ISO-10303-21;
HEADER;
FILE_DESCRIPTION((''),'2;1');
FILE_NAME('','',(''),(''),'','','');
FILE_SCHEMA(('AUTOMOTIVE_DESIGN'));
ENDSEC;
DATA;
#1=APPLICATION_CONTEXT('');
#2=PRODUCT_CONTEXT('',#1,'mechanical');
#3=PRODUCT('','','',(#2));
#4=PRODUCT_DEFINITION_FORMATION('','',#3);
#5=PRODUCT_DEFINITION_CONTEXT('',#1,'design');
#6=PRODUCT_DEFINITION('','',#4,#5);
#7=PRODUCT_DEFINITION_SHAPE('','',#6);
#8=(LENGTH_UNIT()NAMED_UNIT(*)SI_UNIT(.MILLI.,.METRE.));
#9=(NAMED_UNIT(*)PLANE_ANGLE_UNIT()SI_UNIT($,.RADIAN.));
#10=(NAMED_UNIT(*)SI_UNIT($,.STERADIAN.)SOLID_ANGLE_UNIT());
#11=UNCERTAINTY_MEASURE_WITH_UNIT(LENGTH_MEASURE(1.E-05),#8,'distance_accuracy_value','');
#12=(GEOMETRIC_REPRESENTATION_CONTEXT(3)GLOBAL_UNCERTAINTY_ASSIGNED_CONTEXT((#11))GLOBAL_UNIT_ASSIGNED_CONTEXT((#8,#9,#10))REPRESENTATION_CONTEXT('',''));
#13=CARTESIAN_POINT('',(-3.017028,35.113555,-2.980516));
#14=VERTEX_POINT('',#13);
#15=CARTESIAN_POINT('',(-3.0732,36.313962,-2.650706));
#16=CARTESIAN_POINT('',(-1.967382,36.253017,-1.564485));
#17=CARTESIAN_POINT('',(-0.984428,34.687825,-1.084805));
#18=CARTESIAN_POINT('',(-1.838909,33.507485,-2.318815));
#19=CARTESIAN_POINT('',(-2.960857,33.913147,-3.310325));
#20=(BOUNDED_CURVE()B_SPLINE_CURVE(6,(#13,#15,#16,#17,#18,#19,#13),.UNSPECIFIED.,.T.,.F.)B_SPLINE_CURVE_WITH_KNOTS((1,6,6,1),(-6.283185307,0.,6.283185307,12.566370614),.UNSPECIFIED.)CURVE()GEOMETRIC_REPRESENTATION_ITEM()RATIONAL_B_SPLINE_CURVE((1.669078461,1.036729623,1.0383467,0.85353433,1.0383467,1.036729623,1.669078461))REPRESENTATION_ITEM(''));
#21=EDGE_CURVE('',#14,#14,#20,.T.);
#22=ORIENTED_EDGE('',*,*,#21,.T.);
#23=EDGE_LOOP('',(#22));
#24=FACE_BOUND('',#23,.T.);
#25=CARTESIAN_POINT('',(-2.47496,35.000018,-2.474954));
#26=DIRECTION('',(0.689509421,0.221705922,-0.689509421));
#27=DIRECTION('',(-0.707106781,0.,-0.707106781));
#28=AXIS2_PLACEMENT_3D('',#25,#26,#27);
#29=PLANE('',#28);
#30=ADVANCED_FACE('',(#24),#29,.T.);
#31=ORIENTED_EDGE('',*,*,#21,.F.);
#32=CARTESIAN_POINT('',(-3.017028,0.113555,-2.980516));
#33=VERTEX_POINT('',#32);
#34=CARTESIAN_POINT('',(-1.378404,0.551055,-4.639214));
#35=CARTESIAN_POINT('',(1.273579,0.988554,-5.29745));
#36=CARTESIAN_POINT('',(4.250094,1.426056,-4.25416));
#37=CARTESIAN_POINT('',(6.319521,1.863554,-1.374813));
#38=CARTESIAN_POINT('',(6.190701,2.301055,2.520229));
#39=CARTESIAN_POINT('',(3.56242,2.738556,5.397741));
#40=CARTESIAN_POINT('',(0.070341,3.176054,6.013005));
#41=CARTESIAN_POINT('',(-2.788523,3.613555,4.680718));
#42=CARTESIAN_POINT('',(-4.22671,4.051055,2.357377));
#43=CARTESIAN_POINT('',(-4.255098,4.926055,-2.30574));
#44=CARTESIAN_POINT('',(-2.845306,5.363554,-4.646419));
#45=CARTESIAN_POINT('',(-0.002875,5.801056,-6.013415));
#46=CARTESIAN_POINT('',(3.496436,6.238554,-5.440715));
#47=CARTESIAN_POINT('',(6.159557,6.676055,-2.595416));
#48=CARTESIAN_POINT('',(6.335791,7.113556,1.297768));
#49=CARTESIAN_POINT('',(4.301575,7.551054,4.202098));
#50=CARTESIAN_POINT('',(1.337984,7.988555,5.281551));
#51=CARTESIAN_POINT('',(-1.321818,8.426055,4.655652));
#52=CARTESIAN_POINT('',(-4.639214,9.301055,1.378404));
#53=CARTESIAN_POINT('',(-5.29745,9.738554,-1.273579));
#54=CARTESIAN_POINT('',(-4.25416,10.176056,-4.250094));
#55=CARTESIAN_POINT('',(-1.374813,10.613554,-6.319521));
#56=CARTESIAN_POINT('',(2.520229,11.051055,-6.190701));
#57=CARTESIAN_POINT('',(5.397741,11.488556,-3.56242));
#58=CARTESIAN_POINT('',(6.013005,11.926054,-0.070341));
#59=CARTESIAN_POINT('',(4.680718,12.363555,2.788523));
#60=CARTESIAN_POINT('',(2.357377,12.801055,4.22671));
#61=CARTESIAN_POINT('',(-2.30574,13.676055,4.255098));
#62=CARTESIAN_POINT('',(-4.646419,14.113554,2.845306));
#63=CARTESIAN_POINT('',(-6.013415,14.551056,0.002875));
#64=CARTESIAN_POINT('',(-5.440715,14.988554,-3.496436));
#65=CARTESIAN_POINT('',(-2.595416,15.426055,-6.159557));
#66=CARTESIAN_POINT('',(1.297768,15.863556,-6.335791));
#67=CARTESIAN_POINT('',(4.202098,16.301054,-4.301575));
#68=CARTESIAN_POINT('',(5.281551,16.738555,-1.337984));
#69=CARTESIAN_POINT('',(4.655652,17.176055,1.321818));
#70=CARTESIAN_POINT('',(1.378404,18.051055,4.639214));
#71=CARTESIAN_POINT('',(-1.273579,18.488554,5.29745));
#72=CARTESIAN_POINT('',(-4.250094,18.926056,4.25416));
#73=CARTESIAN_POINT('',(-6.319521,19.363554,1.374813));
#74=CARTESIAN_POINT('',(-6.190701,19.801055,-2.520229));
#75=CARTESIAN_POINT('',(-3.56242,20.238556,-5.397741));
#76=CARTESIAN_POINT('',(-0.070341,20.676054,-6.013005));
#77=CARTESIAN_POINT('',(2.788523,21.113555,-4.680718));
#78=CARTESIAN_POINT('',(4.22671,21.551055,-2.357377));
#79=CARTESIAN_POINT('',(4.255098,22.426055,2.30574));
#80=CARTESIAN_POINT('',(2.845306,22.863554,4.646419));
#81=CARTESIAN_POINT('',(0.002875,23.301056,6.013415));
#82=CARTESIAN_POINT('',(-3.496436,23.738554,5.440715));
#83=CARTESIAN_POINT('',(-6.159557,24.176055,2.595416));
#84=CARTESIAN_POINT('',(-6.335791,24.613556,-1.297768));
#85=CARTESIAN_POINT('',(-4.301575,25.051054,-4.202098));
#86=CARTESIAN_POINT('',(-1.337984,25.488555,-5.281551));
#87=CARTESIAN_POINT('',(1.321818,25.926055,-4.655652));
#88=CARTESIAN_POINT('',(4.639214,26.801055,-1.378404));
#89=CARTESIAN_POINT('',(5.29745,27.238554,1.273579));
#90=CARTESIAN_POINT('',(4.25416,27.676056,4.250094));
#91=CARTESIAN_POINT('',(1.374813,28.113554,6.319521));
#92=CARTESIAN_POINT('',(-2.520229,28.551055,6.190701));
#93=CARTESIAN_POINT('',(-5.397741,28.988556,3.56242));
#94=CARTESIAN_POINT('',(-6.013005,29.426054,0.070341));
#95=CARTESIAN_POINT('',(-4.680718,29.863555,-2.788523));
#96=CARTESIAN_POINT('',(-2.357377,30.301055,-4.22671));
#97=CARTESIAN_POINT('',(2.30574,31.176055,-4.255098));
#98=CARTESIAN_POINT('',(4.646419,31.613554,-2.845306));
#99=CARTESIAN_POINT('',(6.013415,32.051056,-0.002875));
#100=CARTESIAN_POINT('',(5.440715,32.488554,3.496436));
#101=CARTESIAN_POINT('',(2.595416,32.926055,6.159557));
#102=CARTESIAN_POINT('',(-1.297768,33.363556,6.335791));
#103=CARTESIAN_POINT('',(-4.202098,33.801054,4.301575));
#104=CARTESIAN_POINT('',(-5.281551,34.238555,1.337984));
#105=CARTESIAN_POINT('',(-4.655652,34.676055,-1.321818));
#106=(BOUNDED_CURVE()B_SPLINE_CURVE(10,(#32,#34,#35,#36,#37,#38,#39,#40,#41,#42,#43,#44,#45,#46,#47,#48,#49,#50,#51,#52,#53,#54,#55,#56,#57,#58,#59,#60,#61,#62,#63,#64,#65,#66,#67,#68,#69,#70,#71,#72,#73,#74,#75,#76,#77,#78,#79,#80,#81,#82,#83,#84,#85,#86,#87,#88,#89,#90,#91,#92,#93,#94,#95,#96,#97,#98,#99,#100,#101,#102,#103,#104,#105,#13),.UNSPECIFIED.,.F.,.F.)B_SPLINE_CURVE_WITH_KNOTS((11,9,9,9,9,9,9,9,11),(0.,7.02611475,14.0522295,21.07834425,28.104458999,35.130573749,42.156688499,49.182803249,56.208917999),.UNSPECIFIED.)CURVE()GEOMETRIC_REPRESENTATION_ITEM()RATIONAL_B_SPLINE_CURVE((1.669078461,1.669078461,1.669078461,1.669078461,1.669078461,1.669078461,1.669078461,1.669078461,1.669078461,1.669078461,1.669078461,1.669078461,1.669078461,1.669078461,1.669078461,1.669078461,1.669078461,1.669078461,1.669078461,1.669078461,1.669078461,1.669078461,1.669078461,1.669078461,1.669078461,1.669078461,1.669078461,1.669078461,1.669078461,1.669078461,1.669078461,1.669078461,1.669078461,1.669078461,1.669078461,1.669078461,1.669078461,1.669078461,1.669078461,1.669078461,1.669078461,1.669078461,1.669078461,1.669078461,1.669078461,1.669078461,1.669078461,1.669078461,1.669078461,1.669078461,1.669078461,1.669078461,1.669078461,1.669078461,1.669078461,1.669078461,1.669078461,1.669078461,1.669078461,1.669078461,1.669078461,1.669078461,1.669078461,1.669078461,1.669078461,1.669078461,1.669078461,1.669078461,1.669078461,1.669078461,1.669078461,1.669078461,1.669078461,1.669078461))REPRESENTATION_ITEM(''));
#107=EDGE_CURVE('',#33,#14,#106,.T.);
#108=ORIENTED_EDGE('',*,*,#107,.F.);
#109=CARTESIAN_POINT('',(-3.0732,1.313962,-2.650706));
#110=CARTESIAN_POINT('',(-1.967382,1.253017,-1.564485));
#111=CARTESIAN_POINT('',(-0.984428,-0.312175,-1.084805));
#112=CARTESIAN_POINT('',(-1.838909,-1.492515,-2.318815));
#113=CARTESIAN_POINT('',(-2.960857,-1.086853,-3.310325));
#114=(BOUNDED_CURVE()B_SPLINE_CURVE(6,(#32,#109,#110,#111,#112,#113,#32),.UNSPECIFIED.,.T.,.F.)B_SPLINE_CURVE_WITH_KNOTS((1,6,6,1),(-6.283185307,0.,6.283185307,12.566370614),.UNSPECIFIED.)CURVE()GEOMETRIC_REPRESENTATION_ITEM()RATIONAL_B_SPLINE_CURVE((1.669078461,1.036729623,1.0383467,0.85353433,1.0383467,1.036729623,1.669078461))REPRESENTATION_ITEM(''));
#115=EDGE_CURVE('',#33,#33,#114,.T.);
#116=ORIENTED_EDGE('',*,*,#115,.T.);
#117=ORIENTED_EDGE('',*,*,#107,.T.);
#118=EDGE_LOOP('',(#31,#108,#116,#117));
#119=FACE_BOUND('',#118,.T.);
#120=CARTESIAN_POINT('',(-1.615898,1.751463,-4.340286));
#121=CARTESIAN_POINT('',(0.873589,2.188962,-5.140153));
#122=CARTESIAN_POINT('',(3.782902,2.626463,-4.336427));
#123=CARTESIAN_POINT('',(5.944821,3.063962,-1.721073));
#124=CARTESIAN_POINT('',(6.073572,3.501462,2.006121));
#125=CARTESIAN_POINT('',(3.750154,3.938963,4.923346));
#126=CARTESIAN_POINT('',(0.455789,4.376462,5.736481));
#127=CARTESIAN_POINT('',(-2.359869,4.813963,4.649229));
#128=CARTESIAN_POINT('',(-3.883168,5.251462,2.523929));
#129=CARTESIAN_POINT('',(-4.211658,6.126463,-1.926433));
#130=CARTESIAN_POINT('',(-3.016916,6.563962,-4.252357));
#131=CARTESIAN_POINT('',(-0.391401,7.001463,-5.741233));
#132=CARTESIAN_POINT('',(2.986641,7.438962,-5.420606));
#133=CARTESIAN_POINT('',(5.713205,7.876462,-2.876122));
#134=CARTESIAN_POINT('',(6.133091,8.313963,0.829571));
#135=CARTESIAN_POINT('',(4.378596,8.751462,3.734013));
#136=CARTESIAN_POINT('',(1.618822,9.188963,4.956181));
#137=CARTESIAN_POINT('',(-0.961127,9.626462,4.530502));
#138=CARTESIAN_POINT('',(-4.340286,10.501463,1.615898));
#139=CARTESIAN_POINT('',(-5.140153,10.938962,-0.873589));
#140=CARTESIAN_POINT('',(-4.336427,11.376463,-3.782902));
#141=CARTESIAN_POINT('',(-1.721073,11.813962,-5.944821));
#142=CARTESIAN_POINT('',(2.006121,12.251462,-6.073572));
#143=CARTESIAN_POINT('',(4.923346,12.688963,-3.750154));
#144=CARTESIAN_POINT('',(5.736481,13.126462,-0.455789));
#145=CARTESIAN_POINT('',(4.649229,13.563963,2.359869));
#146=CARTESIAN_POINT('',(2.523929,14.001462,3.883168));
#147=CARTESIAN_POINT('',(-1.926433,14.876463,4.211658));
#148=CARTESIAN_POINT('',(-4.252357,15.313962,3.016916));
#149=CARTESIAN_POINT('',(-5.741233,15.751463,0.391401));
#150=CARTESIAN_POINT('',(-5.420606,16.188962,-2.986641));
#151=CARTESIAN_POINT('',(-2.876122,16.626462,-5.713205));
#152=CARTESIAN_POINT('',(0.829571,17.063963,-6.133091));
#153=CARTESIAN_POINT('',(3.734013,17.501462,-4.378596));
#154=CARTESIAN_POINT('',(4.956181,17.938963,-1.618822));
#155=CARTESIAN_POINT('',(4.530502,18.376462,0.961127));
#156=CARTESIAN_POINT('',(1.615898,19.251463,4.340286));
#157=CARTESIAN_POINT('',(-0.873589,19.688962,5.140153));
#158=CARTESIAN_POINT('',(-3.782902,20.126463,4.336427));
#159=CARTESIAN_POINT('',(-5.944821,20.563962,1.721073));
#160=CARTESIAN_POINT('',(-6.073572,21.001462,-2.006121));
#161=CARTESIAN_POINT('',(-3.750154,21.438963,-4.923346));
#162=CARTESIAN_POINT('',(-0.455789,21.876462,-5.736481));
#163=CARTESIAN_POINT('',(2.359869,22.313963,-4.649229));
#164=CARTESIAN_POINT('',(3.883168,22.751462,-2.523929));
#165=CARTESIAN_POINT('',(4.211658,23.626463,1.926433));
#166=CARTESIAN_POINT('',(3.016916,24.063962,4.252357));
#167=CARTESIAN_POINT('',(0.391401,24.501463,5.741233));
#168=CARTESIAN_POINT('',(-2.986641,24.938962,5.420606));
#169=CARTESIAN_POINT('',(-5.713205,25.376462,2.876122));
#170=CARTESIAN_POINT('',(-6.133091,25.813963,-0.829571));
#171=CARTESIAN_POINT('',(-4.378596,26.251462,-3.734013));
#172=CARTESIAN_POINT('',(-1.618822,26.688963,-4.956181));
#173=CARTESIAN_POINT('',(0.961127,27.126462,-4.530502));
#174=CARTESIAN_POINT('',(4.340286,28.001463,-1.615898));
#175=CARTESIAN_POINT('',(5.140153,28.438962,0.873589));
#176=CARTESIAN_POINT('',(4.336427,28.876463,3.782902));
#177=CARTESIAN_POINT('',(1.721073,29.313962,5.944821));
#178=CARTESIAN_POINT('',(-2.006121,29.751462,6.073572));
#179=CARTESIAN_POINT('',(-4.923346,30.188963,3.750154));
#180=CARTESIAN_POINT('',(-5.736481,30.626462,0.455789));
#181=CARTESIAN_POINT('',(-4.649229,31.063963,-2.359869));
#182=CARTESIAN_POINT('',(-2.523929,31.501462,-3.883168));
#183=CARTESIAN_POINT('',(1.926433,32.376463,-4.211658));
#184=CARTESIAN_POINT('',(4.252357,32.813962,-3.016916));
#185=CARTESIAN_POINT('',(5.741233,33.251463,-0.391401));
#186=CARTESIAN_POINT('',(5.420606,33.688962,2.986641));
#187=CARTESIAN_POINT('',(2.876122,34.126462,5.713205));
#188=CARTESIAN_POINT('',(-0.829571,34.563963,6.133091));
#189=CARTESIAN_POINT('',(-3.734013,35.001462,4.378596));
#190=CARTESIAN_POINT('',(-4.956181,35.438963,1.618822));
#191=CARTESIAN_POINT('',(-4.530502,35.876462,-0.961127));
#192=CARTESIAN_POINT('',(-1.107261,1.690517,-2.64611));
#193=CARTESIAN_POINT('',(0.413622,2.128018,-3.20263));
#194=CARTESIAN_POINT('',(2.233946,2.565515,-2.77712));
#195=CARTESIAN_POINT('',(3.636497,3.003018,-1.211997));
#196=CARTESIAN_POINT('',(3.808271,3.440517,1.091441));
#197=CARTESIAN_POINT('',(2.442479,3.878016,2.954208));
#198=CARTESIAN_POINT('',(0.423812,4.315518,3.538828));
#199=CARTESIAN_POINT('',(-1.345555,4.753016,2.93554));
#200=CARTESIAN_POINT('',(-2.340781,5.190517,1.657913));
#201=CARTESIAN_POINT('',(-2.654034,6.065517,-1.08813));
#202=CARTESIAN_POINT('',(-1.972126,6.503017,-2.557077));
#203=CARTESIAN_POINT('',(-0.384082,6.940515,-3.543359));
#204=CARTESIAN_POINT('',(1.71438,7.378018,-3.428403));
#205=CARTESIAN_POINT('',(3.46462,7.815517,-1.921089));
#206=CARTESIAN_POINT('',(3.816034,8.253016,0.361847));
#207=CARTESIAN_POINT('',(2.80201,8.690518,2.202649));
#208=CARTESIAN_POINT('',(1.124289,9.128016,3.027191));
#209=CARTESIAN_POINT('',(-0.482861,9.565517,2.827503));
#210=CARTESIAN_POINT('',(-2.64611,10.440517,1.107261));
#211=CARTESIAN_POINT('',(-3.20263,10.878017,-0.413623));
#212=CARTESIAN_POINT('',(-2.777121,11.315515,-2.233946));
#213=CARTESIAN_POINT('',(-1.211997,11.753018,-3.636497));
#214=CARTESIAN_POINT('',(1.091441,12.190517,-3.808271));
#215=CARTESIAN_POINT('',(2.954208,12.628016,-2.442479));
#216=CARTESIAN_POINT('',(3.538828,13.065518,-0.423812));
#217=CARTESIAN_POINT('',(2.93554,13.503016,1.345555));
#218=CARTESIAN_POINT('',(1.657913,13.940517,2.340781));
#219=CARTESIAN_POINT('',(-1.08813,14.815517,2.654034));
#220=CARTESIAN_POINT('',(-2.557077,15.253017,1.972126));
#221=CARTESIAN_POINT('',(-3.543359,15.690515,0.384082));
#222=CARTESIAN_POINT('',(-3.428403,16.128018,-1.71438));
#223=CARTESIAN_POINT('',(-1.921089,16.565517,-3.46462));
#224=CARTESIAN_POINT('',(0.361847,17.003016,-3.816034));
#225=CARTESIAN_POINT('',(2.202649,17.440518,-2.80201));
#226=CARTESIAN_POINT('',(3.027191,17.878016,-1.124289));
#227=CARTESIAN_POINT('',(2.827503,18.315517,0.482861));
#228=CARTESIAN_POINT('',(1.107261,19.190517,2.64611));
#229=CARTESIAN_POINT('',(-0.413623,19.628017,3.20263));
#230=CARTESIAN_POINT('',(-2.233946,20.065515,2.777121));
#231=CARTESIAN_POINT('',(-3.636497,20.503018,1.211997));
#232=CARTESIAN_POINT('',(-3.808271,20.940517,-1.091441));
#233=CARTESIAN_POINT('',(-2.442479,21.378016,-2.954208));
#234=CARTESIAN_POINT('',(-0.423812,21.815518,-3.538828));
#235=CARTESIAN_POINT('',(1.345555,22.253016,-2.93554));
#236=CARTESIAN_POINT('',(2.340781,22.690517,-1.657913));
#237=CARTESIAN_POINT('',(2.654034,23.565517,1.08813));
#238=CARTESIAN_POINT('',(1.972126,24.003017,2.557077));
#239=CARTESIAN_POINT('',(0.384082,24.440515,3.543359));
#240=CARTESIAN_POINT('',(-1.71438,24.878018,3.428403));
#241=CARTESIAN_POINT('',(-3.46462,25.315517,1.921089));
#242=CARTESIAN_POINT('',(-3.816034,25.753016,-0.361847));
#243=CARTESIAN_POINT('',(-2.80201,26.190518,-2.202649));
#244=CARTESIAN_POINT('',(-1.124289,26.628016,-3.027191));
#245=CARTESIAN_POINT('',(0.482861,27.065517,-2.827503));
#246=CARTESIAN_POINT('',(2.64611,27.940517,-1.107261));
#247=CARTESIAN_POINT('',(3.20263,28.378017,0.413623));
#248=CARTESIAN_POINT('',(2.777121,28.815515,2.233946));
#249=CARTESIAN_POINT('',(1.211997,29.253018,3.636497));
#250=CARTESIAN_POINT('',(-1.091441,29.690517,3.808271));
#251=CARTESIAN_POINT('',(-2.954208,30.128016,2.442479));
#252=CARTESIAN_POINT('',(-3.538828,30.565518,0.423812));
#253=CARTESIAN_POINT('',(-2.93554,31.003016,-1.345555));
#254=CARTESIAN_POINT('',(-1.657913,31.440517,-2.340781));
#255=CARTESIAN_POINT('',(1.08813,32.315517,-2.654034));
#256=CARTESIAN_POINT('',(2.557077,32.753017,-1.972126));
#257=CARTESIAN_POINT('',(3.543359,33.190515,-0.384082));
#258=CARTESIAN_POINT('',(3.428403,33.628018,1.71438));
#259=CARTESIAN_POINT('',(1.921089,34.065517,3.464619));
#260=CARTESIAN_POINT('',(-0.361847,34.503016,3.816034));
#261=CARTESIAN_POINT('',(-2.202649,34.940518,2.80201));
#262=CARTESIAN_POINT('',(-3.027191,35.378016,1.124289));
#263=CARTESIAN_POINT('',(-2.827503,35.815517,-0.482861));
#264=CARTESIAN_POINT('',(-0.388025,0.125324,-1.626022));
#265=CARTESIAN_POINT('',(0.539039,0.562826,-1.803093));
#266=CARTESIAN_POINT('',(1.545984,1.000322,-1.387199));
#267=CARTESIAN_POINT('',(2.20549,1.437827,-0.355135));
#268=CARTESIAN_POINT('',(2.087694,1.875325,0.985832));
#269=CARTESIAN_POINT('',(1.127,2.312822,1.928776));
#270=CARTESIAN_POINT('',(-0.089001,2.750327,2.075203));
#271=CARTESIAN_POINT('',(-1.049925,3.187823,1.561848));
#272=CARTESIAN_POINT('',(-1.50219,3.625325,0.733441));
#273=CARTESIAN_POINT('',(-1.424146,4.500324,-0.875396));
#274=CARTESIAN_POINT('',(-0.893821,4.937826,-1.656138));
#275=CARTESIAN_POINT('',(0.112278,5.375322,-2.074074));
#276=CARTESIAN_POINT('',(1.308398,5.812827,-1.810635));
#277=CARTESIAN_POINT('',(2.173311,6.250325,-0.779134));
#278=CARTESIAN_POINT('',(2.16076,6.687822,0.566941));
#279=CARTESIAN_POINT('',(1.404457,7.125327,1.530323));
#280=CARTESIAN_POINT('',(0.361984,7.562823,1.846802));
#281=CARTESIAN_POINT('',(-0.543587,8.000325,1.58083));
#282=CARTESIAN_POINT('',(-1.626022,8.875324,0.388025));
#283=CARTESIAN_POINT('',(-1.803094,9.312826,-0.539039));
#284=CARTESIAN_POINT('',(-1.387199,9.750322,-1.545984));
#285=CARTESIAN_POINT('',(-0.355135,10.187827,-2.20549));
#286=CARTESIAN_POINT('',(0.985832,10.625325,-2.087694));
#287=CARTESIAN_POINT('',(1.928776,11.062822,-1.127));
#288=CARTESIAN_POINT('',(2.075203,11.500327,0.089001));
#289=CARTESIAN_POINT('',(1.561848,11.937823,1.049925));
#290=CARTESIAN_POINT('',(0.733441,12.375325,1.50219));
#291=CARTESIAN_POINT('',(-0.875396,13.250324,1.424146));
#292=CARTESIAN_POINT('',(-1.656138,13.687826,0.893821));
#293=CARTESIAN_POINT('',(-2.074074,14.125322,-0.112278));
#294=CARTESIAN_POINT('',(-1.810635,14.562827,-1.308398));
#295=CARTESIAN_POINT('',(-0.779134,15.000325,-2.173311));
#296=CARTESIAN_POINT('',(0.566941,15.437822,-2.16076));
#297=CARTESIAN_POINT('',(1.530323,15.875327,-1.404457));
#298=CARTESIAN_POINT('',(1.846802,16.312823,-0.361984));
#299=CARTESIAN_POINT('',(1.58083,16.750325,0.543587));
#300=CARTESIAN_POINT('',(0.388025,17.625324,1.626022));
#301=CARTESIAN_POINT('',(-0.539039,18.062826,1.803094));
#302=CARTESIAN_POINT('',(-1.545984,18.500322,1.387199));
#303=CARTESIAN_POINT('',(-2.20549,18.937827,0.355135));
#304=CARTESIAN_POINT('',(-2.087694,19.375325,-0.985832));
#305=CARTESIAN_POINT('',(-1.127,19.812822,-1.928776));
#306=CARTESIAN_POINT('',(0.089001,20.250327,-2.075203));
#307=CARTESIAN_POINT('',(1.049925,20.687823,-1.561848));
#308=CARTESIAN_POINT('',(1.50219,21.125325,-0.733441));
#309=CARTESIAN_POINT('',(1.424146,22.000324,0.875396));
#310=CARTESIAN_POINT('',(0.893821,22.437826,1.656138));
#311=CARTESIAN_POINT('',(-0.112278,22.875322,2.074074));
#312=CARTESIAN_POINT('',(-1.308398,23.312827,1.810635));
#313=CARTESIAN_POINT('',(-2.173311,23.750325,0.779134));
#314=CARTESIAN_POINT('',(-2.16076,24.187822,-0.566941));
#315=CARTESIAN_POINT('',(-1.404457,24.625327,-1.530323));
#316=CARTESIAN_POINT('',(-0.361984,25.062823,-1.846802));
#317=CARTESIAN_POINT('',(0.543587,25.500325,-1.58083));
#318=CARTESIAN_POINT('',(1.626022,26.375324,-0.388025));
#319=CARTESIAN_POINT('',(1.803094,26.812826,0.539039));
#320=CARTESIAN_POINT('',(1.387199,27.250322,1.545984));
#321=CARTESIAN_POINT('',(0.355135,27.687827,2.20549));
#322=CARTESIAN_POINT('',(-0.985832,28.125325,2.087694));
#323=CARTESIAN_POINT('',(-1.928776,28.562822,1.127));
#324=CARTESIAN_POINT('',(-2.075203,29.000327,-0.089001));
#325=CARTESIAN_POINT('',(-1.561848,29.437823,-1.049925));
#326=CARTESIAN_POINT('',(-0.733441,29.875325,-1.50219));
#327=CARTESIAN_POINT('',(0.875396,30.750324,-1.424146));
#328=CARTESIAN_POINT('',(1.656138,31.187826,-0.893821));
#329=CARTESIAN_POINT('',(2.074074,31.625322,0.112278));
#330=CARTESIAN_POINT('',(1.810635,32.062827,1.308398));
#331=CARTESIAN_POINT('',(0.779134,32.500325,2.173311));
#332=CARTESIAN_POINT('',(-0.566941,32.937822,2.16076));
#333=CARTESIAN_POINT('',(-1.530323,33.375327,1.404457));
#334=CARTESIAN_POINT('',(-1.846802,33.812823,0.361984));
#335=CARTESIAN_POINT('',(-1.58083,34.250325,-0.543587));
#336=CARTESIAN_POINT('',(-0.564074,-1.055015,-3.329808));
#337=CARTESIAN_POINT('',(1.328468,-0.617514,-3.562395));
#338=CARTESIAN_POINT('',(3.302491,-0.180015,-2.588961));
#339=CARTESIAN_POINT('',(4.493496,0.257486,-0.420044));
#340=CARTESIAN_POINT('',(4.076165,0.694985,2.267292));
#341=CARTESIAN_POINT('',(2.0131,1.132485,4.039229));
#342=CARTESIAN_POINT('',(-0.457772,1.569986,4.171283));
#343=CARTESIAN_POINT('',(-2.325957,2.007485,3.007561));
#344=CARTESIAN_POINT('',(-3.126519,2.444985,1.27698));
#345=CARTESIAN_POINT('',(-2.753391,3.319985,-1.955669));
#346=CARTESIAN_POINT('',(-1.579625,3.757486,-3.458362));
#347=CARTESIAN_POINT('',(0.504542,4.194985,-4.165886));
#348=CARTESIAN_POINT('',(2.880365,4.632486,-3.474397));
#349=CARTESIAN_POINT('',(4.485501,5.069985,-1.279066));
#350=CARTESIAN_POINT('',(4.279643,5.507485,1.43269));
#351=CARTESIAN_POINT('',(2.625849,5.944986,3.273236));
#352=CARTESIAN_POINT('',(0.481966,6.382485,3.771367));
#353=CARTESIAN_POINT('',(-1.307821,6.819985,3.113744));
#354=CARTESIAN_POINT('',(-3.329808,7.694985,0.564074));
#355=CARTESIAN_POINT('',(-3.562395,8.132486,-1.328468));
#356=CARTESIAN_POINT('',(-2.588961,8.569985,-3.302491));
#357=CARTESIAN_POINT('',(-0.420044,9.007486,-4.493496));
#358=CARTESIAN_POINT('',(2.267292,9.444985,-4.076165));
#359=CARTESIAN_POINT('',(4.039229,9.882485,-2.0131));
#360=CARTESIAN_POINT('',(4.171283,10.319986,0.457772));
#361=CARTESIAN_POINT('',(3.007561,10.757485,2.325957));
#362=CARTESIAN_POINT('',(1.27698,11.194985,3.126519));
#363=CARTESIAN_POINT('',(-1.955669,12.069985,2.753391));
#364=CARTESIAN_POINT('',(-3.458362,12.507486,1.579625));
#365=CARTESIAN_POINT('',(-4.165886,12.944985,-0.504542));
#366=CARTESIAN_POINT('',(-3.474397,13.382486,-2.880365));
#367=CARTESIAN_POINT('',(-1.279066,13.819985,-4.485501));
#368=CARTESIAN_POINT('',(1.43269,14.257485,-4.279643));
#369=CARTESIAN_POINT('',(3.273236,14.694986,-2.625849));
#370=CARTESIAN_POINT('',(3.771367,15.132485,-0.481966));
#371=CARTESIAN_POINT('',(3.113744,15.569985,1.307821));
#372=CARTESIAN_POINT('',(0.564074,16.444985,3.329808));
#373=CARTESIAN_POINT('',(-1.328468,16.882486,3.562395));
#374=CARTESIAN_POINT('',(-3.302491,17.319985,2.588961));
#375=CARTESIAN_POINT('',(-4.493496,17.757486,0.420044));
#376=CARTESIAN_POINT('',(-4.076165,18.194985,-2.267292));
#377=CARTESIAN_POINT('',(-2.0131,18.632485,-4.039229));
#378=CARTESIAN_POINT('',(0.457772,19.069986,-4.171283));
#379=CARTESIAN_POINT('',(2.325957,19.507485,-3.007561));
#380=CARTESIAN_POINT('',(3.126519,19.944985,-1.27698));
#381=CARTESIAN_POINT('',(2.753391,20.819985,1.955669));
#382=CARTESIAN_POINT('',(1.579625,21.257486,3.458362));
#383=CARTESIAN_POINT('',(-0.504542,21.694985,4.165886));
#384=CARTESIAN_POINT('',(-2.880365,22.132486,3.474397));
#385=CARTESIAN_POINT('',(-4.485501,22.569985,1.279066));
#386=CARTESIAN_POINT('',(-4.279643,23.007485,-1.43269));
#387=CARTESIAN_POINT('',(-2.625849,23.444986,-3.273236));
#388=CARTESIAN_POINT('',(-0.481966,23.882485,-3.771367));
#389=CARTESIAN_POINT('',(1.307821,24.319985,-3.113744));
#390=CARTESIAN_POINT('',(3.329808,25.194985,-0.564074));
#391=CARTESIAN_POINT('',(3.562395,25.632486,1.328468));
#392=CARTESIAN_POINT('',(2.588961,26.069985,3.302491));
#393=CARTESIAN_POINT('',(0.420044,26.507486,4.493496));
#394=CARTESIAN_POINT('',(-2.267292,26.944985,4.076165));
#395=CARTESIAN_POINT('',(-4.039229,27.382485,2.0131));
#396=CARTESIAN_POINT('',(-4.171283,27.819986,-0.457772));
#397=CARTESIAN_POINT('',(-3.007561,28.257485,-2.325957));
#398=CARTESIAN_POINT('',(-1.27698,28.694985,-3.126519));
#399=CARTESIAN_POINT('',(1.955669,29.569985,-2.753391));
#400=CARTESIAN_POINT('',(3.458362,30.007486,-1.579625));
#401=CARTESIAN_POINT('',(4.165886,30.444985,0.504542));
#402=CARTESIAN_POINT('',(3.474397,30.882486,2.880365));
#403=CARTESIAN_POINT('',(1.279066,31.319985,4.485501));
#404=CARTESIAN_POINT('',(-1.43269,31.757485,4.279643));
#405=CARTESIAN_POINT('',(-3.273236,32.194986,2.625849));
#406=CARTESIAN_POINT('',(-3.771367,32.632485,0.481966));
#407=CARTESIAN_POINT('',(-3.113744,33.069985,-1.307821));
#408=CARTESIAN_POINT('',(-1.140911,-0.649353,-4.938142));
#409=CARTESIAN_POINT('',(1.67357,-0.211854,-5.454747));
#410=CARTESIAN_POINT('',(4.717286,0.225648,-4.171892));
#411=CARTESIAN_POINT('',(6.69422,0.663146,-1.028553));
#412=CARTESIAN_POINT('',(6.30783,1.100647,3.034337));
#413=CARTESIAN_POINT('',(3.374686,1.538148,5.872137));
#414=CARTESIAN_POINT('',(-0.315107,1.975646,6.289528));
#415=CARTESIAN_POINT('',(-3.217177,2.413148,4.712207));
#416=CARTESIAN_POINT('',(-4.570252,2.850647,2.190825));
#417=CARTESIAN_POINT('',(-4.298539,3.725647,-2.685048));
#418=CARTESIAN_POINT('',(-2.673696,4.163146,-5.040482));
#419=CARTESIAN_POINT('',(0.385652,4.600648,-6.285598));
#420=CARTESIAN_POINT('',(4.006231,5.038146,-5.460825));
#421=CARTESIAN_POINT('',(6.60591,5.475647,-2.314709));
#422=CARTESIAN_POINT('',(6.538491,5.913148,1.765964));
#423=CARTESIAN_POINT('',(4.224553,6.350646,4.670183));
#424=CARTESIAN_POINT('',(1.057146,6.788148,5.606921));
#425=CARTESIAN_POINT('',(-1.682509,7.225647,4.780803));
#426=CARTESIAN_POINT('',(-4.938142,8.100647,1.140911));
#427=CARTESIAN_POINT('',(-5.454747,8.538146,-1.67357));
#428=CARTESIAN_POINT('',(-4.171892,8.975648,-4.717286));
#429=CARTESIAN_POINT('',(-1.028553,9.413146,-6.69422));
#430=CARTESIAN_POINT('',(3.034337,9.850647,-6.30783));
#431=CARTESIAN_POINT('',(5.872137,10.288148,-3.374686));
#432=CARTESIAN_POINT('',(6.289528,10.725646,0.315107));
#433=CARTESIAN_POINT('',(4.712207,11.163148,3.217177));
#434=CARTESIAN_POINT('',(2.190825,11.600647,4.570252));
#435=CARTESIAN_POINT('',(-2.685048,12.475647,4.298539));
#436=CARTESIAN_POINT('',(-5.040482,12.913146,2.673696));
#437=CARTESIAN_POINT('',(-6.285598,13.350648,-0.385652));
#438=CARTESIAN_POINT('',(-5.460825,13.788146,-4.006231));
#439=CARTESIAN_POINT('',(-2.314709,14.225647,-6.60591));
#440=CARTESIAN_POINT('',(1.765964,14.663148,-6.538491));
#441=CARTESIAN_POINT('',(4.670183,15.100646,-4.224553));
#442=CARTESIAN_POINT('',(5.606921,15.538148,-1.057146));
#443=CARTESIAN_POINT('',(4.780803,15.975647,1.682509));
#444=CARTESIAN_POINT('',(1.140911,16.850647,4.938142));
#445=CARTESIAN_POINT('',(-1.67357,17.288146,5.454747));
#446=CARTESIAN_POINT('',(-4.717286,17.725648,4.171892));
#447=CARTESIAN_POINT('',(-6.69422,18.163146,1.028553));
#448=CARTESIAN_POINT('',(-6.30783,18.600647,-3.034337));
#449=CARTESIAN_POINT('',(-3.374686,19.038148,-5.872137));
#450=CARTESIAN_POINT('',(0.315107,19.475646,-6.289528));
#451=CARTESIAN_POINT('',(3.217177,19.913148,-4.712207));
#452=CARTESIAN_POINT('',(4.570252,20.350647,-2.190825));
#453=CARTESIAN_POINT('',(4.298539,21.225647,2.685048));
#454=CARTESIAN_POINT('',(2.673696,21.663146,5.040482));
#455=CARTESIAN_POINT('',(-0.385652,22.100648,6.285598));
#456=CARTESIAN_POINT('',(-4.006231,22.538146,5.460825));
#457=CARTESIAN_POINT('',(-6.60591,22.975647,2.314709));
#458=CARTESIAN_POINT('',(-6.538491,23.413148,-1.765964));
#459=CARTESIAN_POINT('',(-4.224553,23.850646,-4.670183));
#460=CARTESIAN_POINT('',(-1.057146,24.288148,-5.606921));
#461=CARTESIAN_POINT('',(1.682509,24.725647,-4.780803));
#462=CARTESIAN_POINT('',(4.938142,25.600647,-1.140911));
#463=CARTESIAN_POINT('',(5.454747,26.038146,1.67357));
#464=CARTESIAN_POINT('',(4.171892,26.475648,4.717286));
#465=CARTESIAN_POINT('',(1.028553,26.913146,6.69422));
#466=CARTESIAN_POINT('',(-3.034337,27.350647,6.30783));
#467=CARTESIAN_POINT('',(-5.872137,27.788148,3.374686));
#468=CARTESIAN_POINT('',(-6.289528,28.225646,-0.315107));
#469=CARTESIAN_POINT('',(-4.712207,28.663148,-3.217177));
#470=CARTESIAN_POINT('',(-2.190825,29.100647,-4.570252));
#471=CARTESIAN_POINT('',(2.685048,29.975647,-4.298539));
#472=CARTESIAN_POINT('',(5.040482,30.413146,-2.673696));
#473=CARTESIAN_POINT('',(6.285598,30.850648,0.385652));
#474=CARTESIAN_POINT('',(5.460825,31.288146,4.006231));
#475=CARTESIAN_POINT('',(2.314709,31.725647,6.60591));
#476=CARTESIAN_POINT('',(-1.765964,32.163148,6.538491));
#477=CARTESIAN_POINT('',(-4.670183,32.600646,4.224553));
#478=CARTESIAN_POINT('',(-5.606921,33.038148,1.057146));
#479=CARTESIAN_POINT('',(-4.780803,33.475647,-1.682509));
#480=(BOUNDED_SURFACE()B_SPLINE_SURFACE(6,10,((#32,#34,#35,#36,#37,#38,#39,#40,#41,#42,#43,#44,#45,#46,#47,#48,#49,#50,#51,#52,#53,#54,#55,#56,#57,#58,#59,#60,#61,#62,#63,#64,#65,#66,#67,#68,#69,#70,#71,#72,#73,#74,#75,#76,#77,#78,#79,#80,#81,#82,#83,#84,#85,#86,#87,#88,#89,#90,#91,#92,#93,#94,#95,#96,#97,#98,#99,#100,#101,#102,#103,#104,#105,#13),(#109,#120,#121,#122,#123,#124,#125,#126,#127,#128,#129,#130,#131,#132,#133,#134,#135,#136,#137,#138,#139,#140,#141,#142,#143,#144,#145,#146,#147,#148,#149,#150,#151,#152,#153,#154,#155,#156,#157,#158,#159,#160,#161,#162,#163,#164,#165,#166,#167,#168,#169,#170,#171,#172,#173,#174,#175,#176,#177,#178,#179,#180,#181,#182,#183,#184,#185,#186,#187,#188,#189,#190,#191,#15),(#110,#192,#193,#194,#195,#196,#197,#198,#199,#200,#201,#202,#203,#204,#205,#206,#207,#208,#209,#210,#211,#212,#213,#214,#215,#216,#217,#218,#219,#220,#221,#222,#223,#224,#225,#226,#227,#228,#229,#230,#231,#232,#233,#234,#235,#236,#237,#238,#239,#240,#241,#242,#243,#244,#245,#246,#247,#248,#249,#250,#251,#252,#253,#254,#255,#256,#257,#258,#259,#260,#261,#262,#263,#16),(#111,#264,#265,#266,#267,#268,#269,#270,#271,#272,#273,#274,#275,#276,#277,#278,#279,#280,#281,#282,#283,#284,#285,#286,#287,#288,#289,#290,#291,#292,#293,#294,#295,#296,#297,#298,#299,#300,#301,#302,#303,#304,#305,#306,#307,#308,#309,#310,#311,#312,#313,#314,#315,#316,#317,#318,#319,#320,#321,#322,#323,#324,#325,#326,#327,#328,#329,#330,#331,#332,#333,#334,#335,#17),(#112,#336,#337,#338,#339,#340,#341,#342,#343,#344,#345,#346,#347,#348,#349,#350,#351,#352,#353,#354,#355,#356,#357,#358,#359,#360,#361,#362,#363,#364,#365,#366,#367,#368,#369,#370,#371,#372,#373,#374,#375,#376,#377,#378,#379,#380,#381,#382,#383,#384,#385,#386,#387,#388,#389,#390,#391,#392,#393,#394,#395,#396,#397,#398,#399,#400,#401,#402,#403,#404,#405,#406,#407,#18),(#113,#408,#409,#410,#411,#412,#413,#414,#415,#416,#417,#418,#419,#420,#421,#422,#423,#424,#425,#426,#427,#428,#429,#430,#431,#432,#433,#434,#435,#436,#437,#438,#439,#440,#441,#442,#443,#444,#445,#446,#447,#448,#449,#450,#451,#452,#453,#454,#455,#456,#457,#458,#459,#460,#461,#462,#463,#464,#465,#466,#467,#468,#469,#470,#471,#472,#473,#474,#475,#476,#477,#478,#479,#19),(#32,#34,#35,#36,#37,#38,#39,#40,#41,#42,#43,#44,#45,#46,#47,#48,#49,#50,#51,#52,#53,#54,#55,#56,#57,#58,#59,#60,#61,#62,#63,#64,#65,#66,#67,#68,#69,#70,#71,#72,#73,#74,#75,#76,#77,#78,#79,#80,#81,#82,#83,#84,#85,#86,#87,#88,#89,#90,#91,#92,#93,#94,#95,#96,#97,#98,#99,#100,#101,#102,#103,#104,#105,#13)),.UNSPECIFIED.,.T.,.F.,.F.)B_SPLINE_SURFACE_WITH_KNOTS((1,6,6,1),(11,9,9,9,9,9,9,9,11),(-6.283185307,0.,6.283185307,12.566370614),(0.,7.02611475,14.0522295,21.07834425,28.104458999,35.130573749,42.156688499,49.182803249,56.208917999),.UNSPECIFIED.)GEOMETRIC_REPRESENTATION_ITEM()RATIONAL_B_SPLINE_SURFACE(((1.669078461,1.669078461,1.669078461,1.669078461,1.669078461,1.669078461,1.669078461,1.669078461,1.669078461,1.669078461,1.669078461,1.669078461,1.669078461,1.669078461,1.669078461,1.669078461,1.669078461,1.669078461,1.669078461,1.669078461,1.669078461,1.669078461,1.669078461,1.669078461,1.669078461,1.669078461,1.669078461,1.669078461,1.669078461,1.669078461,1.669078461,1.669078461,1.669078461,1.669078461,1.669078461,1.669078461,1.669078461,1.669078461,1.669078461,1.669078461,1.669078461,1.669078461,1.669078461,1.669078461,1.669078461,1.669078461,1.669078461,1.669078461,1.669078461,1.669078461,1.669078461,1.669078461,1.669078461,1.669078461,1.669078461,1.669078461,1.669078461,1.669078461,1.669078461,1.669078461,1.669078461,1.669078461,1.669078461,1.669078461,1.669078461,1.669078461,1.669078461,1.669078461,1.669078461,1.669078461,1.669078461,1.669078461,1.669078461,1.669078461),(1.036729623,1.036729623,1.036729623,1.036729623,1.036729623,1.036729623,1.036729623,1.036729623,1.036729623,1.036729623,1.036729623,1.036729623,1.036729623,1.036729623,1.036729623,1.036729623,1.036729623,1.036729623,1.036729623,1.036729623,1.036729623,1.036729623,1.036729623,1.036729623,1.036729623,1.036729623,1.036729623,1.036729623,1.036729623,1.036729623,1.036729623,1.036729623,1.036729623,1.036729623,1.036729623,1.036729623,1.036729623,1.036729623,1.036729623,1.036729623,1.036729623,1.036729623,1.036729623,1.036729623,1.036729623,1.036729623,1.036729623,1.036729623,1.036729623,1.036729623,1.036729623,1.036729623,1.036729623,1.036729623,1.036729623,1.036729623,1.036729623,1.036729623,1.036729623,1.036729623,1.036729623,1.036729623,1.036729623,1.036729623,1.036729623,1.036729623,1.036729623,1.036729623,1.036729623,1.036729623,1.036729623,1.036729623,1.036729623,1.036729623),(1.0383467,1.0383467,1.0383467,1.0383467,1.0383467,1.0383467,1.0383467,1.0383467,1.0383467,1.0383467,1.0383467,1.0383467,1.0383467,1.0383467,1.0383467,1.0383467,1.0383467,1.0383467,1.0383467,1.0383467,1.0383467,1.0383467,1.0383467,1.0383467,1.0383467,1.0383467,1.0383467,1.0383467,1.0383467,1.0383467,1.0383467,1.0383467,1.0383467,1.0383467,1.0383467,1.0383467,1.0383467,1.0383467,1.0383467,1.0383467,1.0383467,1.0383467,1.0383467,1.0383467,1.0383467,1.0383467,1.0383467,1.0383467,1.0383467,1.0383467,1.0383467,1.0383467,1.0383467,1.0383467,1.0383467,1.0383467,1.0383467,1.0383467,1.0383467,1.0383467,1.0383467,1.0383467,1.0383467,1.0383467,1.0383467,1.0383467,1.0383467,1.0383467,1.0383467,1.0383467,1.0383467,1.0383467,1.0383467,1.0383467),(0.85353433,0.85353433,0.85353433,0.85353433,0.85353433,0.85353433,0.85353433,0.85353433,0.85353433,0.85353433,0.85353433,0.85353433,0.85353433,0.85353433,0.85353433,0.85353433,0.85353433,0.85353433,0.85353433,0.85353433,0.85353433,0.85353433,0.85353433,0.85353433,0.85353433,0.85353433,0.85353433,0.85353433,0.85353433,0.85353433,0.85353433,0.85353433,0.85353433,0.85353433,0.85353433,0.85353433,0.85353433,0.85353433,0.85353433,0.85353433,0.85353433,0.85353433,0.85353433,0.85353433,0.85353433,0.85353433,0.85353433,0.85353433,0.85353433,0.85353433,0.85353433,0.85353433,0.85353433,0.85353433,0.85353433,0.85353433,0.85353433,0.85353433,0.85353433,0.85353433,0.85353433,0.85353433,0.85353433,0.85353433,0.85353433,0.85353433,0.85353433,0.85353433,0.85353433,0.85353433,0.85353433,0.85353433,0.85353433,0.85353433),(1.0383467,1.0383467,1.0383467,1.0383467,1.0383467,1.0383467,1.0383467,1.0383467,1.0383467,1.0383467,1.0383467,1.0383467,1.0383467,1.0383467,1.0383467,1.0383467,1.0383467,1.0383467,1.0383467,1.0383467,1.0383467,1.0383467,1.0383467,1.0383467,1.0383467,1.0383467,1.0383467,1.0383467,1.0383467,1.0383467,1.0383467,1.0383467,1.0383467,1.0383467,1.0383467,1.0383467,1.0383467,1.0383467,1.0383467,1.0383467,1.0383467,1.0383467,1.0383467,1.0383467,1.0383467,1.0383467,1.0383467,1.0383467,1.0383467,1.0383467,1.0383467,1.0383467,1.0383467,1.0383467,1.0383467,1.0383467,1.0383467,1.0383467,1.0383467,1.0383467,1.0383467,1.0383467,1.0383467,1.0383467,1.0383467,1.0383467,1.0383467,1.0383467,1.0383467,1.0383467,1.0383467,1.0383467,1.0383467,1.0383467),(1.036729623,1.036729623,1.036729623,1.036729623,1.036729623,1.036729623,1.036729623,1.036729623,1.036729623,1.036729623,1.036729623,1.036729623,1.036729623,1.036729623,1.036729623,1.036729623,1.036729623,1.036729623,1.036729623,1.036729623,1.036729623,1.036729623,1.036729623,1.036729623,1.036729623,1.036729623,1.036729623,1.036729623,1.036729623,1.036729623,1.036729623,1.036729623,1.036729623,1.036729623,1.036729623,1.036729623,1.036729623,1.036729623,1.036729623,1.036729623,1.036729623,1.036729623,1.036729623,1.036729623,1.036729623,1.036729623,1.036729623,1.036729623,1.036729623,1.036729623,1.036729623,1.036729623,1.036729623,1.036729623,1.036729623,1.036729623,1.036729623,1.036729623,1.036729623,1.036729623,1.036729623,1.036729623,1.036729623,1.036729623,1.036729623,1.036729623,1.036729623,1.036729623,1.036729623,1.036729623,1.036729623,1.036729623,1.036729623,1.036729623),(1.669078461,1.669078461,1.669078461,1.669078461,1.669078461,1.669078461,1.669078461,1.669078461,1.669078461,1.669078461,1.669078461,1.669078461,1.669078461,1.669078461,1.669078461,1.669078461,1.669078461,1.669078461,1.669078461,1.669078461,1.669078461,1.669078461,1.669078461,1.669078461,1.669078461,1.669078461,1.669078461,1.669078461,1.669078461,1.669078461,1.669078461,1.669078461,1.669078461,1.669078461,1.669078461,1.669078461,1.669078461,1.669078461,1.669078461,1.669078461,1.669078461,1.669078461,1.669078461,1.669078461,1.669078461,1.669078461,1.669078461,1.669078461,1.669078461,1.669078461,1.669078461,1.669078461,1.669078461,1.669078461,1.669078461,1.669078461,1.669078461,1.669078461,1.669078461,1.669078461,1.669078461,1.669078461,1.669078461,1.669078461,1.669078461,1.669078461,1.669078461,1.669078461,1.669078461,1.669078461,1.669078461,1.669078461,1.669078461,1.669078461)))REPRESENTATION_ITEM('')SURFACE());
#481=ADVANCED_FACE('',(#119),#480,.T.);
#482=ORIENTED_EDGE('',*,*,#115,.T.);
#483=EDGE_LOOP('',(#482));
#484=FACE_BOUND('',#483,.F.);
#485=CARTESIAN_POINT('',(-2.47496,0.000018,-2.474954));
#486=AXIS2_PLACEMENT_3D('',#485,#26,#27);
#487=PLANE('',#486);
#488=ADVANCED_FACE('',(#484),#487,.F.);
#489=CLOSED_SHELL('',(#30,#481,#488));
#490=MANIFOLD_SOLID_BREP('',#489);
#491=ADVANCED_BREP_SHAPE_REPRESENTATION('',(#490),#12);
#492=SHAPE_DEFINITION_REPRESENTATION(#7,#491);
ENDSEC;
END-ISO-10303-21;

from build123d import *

# Parameters (mm, degrees)
SWEEP_1_PITCH       = 5
SWEEP_1_HEIGHT      = 35
SWEEP_1_RADIUS      = 3.5
SWEEP_1_START_ANGLE = -135
SKETCH_3_R          = 0.75


with BuildPart() as part:
    # 扫描1: sweep along a helix
    with BuildLine() as sweep_1_path:
        add(Helix(SWEEP_1_PITCH, SWEEP_1_HEIGHT, SWEEP_1_RADIUS, center=(0, 0, 0), direction=(0, 1, 0), lefthand=True, mode=Mode.PRIVATE).rotate(Axis((0, 0, 0), (0, 1, 0)), SWEEP_1_START_ANGLE))
    # 草图3 → 扫描1 (sweep)
    with BuildSketch(Plane(origin=(-2.474873734, 0, -2.474873734), x_dir=(-0.7228727027208196, 0.151406357908533, -0.6741892690083184), z_dir=(0.6895094212798698, 0.22170592218654045, -0.6895094212798799))):
        Circle(SKETCH_3_R)
    sweep(path=sweep_1_path.line, is_frenet=True)


solid = part.part
